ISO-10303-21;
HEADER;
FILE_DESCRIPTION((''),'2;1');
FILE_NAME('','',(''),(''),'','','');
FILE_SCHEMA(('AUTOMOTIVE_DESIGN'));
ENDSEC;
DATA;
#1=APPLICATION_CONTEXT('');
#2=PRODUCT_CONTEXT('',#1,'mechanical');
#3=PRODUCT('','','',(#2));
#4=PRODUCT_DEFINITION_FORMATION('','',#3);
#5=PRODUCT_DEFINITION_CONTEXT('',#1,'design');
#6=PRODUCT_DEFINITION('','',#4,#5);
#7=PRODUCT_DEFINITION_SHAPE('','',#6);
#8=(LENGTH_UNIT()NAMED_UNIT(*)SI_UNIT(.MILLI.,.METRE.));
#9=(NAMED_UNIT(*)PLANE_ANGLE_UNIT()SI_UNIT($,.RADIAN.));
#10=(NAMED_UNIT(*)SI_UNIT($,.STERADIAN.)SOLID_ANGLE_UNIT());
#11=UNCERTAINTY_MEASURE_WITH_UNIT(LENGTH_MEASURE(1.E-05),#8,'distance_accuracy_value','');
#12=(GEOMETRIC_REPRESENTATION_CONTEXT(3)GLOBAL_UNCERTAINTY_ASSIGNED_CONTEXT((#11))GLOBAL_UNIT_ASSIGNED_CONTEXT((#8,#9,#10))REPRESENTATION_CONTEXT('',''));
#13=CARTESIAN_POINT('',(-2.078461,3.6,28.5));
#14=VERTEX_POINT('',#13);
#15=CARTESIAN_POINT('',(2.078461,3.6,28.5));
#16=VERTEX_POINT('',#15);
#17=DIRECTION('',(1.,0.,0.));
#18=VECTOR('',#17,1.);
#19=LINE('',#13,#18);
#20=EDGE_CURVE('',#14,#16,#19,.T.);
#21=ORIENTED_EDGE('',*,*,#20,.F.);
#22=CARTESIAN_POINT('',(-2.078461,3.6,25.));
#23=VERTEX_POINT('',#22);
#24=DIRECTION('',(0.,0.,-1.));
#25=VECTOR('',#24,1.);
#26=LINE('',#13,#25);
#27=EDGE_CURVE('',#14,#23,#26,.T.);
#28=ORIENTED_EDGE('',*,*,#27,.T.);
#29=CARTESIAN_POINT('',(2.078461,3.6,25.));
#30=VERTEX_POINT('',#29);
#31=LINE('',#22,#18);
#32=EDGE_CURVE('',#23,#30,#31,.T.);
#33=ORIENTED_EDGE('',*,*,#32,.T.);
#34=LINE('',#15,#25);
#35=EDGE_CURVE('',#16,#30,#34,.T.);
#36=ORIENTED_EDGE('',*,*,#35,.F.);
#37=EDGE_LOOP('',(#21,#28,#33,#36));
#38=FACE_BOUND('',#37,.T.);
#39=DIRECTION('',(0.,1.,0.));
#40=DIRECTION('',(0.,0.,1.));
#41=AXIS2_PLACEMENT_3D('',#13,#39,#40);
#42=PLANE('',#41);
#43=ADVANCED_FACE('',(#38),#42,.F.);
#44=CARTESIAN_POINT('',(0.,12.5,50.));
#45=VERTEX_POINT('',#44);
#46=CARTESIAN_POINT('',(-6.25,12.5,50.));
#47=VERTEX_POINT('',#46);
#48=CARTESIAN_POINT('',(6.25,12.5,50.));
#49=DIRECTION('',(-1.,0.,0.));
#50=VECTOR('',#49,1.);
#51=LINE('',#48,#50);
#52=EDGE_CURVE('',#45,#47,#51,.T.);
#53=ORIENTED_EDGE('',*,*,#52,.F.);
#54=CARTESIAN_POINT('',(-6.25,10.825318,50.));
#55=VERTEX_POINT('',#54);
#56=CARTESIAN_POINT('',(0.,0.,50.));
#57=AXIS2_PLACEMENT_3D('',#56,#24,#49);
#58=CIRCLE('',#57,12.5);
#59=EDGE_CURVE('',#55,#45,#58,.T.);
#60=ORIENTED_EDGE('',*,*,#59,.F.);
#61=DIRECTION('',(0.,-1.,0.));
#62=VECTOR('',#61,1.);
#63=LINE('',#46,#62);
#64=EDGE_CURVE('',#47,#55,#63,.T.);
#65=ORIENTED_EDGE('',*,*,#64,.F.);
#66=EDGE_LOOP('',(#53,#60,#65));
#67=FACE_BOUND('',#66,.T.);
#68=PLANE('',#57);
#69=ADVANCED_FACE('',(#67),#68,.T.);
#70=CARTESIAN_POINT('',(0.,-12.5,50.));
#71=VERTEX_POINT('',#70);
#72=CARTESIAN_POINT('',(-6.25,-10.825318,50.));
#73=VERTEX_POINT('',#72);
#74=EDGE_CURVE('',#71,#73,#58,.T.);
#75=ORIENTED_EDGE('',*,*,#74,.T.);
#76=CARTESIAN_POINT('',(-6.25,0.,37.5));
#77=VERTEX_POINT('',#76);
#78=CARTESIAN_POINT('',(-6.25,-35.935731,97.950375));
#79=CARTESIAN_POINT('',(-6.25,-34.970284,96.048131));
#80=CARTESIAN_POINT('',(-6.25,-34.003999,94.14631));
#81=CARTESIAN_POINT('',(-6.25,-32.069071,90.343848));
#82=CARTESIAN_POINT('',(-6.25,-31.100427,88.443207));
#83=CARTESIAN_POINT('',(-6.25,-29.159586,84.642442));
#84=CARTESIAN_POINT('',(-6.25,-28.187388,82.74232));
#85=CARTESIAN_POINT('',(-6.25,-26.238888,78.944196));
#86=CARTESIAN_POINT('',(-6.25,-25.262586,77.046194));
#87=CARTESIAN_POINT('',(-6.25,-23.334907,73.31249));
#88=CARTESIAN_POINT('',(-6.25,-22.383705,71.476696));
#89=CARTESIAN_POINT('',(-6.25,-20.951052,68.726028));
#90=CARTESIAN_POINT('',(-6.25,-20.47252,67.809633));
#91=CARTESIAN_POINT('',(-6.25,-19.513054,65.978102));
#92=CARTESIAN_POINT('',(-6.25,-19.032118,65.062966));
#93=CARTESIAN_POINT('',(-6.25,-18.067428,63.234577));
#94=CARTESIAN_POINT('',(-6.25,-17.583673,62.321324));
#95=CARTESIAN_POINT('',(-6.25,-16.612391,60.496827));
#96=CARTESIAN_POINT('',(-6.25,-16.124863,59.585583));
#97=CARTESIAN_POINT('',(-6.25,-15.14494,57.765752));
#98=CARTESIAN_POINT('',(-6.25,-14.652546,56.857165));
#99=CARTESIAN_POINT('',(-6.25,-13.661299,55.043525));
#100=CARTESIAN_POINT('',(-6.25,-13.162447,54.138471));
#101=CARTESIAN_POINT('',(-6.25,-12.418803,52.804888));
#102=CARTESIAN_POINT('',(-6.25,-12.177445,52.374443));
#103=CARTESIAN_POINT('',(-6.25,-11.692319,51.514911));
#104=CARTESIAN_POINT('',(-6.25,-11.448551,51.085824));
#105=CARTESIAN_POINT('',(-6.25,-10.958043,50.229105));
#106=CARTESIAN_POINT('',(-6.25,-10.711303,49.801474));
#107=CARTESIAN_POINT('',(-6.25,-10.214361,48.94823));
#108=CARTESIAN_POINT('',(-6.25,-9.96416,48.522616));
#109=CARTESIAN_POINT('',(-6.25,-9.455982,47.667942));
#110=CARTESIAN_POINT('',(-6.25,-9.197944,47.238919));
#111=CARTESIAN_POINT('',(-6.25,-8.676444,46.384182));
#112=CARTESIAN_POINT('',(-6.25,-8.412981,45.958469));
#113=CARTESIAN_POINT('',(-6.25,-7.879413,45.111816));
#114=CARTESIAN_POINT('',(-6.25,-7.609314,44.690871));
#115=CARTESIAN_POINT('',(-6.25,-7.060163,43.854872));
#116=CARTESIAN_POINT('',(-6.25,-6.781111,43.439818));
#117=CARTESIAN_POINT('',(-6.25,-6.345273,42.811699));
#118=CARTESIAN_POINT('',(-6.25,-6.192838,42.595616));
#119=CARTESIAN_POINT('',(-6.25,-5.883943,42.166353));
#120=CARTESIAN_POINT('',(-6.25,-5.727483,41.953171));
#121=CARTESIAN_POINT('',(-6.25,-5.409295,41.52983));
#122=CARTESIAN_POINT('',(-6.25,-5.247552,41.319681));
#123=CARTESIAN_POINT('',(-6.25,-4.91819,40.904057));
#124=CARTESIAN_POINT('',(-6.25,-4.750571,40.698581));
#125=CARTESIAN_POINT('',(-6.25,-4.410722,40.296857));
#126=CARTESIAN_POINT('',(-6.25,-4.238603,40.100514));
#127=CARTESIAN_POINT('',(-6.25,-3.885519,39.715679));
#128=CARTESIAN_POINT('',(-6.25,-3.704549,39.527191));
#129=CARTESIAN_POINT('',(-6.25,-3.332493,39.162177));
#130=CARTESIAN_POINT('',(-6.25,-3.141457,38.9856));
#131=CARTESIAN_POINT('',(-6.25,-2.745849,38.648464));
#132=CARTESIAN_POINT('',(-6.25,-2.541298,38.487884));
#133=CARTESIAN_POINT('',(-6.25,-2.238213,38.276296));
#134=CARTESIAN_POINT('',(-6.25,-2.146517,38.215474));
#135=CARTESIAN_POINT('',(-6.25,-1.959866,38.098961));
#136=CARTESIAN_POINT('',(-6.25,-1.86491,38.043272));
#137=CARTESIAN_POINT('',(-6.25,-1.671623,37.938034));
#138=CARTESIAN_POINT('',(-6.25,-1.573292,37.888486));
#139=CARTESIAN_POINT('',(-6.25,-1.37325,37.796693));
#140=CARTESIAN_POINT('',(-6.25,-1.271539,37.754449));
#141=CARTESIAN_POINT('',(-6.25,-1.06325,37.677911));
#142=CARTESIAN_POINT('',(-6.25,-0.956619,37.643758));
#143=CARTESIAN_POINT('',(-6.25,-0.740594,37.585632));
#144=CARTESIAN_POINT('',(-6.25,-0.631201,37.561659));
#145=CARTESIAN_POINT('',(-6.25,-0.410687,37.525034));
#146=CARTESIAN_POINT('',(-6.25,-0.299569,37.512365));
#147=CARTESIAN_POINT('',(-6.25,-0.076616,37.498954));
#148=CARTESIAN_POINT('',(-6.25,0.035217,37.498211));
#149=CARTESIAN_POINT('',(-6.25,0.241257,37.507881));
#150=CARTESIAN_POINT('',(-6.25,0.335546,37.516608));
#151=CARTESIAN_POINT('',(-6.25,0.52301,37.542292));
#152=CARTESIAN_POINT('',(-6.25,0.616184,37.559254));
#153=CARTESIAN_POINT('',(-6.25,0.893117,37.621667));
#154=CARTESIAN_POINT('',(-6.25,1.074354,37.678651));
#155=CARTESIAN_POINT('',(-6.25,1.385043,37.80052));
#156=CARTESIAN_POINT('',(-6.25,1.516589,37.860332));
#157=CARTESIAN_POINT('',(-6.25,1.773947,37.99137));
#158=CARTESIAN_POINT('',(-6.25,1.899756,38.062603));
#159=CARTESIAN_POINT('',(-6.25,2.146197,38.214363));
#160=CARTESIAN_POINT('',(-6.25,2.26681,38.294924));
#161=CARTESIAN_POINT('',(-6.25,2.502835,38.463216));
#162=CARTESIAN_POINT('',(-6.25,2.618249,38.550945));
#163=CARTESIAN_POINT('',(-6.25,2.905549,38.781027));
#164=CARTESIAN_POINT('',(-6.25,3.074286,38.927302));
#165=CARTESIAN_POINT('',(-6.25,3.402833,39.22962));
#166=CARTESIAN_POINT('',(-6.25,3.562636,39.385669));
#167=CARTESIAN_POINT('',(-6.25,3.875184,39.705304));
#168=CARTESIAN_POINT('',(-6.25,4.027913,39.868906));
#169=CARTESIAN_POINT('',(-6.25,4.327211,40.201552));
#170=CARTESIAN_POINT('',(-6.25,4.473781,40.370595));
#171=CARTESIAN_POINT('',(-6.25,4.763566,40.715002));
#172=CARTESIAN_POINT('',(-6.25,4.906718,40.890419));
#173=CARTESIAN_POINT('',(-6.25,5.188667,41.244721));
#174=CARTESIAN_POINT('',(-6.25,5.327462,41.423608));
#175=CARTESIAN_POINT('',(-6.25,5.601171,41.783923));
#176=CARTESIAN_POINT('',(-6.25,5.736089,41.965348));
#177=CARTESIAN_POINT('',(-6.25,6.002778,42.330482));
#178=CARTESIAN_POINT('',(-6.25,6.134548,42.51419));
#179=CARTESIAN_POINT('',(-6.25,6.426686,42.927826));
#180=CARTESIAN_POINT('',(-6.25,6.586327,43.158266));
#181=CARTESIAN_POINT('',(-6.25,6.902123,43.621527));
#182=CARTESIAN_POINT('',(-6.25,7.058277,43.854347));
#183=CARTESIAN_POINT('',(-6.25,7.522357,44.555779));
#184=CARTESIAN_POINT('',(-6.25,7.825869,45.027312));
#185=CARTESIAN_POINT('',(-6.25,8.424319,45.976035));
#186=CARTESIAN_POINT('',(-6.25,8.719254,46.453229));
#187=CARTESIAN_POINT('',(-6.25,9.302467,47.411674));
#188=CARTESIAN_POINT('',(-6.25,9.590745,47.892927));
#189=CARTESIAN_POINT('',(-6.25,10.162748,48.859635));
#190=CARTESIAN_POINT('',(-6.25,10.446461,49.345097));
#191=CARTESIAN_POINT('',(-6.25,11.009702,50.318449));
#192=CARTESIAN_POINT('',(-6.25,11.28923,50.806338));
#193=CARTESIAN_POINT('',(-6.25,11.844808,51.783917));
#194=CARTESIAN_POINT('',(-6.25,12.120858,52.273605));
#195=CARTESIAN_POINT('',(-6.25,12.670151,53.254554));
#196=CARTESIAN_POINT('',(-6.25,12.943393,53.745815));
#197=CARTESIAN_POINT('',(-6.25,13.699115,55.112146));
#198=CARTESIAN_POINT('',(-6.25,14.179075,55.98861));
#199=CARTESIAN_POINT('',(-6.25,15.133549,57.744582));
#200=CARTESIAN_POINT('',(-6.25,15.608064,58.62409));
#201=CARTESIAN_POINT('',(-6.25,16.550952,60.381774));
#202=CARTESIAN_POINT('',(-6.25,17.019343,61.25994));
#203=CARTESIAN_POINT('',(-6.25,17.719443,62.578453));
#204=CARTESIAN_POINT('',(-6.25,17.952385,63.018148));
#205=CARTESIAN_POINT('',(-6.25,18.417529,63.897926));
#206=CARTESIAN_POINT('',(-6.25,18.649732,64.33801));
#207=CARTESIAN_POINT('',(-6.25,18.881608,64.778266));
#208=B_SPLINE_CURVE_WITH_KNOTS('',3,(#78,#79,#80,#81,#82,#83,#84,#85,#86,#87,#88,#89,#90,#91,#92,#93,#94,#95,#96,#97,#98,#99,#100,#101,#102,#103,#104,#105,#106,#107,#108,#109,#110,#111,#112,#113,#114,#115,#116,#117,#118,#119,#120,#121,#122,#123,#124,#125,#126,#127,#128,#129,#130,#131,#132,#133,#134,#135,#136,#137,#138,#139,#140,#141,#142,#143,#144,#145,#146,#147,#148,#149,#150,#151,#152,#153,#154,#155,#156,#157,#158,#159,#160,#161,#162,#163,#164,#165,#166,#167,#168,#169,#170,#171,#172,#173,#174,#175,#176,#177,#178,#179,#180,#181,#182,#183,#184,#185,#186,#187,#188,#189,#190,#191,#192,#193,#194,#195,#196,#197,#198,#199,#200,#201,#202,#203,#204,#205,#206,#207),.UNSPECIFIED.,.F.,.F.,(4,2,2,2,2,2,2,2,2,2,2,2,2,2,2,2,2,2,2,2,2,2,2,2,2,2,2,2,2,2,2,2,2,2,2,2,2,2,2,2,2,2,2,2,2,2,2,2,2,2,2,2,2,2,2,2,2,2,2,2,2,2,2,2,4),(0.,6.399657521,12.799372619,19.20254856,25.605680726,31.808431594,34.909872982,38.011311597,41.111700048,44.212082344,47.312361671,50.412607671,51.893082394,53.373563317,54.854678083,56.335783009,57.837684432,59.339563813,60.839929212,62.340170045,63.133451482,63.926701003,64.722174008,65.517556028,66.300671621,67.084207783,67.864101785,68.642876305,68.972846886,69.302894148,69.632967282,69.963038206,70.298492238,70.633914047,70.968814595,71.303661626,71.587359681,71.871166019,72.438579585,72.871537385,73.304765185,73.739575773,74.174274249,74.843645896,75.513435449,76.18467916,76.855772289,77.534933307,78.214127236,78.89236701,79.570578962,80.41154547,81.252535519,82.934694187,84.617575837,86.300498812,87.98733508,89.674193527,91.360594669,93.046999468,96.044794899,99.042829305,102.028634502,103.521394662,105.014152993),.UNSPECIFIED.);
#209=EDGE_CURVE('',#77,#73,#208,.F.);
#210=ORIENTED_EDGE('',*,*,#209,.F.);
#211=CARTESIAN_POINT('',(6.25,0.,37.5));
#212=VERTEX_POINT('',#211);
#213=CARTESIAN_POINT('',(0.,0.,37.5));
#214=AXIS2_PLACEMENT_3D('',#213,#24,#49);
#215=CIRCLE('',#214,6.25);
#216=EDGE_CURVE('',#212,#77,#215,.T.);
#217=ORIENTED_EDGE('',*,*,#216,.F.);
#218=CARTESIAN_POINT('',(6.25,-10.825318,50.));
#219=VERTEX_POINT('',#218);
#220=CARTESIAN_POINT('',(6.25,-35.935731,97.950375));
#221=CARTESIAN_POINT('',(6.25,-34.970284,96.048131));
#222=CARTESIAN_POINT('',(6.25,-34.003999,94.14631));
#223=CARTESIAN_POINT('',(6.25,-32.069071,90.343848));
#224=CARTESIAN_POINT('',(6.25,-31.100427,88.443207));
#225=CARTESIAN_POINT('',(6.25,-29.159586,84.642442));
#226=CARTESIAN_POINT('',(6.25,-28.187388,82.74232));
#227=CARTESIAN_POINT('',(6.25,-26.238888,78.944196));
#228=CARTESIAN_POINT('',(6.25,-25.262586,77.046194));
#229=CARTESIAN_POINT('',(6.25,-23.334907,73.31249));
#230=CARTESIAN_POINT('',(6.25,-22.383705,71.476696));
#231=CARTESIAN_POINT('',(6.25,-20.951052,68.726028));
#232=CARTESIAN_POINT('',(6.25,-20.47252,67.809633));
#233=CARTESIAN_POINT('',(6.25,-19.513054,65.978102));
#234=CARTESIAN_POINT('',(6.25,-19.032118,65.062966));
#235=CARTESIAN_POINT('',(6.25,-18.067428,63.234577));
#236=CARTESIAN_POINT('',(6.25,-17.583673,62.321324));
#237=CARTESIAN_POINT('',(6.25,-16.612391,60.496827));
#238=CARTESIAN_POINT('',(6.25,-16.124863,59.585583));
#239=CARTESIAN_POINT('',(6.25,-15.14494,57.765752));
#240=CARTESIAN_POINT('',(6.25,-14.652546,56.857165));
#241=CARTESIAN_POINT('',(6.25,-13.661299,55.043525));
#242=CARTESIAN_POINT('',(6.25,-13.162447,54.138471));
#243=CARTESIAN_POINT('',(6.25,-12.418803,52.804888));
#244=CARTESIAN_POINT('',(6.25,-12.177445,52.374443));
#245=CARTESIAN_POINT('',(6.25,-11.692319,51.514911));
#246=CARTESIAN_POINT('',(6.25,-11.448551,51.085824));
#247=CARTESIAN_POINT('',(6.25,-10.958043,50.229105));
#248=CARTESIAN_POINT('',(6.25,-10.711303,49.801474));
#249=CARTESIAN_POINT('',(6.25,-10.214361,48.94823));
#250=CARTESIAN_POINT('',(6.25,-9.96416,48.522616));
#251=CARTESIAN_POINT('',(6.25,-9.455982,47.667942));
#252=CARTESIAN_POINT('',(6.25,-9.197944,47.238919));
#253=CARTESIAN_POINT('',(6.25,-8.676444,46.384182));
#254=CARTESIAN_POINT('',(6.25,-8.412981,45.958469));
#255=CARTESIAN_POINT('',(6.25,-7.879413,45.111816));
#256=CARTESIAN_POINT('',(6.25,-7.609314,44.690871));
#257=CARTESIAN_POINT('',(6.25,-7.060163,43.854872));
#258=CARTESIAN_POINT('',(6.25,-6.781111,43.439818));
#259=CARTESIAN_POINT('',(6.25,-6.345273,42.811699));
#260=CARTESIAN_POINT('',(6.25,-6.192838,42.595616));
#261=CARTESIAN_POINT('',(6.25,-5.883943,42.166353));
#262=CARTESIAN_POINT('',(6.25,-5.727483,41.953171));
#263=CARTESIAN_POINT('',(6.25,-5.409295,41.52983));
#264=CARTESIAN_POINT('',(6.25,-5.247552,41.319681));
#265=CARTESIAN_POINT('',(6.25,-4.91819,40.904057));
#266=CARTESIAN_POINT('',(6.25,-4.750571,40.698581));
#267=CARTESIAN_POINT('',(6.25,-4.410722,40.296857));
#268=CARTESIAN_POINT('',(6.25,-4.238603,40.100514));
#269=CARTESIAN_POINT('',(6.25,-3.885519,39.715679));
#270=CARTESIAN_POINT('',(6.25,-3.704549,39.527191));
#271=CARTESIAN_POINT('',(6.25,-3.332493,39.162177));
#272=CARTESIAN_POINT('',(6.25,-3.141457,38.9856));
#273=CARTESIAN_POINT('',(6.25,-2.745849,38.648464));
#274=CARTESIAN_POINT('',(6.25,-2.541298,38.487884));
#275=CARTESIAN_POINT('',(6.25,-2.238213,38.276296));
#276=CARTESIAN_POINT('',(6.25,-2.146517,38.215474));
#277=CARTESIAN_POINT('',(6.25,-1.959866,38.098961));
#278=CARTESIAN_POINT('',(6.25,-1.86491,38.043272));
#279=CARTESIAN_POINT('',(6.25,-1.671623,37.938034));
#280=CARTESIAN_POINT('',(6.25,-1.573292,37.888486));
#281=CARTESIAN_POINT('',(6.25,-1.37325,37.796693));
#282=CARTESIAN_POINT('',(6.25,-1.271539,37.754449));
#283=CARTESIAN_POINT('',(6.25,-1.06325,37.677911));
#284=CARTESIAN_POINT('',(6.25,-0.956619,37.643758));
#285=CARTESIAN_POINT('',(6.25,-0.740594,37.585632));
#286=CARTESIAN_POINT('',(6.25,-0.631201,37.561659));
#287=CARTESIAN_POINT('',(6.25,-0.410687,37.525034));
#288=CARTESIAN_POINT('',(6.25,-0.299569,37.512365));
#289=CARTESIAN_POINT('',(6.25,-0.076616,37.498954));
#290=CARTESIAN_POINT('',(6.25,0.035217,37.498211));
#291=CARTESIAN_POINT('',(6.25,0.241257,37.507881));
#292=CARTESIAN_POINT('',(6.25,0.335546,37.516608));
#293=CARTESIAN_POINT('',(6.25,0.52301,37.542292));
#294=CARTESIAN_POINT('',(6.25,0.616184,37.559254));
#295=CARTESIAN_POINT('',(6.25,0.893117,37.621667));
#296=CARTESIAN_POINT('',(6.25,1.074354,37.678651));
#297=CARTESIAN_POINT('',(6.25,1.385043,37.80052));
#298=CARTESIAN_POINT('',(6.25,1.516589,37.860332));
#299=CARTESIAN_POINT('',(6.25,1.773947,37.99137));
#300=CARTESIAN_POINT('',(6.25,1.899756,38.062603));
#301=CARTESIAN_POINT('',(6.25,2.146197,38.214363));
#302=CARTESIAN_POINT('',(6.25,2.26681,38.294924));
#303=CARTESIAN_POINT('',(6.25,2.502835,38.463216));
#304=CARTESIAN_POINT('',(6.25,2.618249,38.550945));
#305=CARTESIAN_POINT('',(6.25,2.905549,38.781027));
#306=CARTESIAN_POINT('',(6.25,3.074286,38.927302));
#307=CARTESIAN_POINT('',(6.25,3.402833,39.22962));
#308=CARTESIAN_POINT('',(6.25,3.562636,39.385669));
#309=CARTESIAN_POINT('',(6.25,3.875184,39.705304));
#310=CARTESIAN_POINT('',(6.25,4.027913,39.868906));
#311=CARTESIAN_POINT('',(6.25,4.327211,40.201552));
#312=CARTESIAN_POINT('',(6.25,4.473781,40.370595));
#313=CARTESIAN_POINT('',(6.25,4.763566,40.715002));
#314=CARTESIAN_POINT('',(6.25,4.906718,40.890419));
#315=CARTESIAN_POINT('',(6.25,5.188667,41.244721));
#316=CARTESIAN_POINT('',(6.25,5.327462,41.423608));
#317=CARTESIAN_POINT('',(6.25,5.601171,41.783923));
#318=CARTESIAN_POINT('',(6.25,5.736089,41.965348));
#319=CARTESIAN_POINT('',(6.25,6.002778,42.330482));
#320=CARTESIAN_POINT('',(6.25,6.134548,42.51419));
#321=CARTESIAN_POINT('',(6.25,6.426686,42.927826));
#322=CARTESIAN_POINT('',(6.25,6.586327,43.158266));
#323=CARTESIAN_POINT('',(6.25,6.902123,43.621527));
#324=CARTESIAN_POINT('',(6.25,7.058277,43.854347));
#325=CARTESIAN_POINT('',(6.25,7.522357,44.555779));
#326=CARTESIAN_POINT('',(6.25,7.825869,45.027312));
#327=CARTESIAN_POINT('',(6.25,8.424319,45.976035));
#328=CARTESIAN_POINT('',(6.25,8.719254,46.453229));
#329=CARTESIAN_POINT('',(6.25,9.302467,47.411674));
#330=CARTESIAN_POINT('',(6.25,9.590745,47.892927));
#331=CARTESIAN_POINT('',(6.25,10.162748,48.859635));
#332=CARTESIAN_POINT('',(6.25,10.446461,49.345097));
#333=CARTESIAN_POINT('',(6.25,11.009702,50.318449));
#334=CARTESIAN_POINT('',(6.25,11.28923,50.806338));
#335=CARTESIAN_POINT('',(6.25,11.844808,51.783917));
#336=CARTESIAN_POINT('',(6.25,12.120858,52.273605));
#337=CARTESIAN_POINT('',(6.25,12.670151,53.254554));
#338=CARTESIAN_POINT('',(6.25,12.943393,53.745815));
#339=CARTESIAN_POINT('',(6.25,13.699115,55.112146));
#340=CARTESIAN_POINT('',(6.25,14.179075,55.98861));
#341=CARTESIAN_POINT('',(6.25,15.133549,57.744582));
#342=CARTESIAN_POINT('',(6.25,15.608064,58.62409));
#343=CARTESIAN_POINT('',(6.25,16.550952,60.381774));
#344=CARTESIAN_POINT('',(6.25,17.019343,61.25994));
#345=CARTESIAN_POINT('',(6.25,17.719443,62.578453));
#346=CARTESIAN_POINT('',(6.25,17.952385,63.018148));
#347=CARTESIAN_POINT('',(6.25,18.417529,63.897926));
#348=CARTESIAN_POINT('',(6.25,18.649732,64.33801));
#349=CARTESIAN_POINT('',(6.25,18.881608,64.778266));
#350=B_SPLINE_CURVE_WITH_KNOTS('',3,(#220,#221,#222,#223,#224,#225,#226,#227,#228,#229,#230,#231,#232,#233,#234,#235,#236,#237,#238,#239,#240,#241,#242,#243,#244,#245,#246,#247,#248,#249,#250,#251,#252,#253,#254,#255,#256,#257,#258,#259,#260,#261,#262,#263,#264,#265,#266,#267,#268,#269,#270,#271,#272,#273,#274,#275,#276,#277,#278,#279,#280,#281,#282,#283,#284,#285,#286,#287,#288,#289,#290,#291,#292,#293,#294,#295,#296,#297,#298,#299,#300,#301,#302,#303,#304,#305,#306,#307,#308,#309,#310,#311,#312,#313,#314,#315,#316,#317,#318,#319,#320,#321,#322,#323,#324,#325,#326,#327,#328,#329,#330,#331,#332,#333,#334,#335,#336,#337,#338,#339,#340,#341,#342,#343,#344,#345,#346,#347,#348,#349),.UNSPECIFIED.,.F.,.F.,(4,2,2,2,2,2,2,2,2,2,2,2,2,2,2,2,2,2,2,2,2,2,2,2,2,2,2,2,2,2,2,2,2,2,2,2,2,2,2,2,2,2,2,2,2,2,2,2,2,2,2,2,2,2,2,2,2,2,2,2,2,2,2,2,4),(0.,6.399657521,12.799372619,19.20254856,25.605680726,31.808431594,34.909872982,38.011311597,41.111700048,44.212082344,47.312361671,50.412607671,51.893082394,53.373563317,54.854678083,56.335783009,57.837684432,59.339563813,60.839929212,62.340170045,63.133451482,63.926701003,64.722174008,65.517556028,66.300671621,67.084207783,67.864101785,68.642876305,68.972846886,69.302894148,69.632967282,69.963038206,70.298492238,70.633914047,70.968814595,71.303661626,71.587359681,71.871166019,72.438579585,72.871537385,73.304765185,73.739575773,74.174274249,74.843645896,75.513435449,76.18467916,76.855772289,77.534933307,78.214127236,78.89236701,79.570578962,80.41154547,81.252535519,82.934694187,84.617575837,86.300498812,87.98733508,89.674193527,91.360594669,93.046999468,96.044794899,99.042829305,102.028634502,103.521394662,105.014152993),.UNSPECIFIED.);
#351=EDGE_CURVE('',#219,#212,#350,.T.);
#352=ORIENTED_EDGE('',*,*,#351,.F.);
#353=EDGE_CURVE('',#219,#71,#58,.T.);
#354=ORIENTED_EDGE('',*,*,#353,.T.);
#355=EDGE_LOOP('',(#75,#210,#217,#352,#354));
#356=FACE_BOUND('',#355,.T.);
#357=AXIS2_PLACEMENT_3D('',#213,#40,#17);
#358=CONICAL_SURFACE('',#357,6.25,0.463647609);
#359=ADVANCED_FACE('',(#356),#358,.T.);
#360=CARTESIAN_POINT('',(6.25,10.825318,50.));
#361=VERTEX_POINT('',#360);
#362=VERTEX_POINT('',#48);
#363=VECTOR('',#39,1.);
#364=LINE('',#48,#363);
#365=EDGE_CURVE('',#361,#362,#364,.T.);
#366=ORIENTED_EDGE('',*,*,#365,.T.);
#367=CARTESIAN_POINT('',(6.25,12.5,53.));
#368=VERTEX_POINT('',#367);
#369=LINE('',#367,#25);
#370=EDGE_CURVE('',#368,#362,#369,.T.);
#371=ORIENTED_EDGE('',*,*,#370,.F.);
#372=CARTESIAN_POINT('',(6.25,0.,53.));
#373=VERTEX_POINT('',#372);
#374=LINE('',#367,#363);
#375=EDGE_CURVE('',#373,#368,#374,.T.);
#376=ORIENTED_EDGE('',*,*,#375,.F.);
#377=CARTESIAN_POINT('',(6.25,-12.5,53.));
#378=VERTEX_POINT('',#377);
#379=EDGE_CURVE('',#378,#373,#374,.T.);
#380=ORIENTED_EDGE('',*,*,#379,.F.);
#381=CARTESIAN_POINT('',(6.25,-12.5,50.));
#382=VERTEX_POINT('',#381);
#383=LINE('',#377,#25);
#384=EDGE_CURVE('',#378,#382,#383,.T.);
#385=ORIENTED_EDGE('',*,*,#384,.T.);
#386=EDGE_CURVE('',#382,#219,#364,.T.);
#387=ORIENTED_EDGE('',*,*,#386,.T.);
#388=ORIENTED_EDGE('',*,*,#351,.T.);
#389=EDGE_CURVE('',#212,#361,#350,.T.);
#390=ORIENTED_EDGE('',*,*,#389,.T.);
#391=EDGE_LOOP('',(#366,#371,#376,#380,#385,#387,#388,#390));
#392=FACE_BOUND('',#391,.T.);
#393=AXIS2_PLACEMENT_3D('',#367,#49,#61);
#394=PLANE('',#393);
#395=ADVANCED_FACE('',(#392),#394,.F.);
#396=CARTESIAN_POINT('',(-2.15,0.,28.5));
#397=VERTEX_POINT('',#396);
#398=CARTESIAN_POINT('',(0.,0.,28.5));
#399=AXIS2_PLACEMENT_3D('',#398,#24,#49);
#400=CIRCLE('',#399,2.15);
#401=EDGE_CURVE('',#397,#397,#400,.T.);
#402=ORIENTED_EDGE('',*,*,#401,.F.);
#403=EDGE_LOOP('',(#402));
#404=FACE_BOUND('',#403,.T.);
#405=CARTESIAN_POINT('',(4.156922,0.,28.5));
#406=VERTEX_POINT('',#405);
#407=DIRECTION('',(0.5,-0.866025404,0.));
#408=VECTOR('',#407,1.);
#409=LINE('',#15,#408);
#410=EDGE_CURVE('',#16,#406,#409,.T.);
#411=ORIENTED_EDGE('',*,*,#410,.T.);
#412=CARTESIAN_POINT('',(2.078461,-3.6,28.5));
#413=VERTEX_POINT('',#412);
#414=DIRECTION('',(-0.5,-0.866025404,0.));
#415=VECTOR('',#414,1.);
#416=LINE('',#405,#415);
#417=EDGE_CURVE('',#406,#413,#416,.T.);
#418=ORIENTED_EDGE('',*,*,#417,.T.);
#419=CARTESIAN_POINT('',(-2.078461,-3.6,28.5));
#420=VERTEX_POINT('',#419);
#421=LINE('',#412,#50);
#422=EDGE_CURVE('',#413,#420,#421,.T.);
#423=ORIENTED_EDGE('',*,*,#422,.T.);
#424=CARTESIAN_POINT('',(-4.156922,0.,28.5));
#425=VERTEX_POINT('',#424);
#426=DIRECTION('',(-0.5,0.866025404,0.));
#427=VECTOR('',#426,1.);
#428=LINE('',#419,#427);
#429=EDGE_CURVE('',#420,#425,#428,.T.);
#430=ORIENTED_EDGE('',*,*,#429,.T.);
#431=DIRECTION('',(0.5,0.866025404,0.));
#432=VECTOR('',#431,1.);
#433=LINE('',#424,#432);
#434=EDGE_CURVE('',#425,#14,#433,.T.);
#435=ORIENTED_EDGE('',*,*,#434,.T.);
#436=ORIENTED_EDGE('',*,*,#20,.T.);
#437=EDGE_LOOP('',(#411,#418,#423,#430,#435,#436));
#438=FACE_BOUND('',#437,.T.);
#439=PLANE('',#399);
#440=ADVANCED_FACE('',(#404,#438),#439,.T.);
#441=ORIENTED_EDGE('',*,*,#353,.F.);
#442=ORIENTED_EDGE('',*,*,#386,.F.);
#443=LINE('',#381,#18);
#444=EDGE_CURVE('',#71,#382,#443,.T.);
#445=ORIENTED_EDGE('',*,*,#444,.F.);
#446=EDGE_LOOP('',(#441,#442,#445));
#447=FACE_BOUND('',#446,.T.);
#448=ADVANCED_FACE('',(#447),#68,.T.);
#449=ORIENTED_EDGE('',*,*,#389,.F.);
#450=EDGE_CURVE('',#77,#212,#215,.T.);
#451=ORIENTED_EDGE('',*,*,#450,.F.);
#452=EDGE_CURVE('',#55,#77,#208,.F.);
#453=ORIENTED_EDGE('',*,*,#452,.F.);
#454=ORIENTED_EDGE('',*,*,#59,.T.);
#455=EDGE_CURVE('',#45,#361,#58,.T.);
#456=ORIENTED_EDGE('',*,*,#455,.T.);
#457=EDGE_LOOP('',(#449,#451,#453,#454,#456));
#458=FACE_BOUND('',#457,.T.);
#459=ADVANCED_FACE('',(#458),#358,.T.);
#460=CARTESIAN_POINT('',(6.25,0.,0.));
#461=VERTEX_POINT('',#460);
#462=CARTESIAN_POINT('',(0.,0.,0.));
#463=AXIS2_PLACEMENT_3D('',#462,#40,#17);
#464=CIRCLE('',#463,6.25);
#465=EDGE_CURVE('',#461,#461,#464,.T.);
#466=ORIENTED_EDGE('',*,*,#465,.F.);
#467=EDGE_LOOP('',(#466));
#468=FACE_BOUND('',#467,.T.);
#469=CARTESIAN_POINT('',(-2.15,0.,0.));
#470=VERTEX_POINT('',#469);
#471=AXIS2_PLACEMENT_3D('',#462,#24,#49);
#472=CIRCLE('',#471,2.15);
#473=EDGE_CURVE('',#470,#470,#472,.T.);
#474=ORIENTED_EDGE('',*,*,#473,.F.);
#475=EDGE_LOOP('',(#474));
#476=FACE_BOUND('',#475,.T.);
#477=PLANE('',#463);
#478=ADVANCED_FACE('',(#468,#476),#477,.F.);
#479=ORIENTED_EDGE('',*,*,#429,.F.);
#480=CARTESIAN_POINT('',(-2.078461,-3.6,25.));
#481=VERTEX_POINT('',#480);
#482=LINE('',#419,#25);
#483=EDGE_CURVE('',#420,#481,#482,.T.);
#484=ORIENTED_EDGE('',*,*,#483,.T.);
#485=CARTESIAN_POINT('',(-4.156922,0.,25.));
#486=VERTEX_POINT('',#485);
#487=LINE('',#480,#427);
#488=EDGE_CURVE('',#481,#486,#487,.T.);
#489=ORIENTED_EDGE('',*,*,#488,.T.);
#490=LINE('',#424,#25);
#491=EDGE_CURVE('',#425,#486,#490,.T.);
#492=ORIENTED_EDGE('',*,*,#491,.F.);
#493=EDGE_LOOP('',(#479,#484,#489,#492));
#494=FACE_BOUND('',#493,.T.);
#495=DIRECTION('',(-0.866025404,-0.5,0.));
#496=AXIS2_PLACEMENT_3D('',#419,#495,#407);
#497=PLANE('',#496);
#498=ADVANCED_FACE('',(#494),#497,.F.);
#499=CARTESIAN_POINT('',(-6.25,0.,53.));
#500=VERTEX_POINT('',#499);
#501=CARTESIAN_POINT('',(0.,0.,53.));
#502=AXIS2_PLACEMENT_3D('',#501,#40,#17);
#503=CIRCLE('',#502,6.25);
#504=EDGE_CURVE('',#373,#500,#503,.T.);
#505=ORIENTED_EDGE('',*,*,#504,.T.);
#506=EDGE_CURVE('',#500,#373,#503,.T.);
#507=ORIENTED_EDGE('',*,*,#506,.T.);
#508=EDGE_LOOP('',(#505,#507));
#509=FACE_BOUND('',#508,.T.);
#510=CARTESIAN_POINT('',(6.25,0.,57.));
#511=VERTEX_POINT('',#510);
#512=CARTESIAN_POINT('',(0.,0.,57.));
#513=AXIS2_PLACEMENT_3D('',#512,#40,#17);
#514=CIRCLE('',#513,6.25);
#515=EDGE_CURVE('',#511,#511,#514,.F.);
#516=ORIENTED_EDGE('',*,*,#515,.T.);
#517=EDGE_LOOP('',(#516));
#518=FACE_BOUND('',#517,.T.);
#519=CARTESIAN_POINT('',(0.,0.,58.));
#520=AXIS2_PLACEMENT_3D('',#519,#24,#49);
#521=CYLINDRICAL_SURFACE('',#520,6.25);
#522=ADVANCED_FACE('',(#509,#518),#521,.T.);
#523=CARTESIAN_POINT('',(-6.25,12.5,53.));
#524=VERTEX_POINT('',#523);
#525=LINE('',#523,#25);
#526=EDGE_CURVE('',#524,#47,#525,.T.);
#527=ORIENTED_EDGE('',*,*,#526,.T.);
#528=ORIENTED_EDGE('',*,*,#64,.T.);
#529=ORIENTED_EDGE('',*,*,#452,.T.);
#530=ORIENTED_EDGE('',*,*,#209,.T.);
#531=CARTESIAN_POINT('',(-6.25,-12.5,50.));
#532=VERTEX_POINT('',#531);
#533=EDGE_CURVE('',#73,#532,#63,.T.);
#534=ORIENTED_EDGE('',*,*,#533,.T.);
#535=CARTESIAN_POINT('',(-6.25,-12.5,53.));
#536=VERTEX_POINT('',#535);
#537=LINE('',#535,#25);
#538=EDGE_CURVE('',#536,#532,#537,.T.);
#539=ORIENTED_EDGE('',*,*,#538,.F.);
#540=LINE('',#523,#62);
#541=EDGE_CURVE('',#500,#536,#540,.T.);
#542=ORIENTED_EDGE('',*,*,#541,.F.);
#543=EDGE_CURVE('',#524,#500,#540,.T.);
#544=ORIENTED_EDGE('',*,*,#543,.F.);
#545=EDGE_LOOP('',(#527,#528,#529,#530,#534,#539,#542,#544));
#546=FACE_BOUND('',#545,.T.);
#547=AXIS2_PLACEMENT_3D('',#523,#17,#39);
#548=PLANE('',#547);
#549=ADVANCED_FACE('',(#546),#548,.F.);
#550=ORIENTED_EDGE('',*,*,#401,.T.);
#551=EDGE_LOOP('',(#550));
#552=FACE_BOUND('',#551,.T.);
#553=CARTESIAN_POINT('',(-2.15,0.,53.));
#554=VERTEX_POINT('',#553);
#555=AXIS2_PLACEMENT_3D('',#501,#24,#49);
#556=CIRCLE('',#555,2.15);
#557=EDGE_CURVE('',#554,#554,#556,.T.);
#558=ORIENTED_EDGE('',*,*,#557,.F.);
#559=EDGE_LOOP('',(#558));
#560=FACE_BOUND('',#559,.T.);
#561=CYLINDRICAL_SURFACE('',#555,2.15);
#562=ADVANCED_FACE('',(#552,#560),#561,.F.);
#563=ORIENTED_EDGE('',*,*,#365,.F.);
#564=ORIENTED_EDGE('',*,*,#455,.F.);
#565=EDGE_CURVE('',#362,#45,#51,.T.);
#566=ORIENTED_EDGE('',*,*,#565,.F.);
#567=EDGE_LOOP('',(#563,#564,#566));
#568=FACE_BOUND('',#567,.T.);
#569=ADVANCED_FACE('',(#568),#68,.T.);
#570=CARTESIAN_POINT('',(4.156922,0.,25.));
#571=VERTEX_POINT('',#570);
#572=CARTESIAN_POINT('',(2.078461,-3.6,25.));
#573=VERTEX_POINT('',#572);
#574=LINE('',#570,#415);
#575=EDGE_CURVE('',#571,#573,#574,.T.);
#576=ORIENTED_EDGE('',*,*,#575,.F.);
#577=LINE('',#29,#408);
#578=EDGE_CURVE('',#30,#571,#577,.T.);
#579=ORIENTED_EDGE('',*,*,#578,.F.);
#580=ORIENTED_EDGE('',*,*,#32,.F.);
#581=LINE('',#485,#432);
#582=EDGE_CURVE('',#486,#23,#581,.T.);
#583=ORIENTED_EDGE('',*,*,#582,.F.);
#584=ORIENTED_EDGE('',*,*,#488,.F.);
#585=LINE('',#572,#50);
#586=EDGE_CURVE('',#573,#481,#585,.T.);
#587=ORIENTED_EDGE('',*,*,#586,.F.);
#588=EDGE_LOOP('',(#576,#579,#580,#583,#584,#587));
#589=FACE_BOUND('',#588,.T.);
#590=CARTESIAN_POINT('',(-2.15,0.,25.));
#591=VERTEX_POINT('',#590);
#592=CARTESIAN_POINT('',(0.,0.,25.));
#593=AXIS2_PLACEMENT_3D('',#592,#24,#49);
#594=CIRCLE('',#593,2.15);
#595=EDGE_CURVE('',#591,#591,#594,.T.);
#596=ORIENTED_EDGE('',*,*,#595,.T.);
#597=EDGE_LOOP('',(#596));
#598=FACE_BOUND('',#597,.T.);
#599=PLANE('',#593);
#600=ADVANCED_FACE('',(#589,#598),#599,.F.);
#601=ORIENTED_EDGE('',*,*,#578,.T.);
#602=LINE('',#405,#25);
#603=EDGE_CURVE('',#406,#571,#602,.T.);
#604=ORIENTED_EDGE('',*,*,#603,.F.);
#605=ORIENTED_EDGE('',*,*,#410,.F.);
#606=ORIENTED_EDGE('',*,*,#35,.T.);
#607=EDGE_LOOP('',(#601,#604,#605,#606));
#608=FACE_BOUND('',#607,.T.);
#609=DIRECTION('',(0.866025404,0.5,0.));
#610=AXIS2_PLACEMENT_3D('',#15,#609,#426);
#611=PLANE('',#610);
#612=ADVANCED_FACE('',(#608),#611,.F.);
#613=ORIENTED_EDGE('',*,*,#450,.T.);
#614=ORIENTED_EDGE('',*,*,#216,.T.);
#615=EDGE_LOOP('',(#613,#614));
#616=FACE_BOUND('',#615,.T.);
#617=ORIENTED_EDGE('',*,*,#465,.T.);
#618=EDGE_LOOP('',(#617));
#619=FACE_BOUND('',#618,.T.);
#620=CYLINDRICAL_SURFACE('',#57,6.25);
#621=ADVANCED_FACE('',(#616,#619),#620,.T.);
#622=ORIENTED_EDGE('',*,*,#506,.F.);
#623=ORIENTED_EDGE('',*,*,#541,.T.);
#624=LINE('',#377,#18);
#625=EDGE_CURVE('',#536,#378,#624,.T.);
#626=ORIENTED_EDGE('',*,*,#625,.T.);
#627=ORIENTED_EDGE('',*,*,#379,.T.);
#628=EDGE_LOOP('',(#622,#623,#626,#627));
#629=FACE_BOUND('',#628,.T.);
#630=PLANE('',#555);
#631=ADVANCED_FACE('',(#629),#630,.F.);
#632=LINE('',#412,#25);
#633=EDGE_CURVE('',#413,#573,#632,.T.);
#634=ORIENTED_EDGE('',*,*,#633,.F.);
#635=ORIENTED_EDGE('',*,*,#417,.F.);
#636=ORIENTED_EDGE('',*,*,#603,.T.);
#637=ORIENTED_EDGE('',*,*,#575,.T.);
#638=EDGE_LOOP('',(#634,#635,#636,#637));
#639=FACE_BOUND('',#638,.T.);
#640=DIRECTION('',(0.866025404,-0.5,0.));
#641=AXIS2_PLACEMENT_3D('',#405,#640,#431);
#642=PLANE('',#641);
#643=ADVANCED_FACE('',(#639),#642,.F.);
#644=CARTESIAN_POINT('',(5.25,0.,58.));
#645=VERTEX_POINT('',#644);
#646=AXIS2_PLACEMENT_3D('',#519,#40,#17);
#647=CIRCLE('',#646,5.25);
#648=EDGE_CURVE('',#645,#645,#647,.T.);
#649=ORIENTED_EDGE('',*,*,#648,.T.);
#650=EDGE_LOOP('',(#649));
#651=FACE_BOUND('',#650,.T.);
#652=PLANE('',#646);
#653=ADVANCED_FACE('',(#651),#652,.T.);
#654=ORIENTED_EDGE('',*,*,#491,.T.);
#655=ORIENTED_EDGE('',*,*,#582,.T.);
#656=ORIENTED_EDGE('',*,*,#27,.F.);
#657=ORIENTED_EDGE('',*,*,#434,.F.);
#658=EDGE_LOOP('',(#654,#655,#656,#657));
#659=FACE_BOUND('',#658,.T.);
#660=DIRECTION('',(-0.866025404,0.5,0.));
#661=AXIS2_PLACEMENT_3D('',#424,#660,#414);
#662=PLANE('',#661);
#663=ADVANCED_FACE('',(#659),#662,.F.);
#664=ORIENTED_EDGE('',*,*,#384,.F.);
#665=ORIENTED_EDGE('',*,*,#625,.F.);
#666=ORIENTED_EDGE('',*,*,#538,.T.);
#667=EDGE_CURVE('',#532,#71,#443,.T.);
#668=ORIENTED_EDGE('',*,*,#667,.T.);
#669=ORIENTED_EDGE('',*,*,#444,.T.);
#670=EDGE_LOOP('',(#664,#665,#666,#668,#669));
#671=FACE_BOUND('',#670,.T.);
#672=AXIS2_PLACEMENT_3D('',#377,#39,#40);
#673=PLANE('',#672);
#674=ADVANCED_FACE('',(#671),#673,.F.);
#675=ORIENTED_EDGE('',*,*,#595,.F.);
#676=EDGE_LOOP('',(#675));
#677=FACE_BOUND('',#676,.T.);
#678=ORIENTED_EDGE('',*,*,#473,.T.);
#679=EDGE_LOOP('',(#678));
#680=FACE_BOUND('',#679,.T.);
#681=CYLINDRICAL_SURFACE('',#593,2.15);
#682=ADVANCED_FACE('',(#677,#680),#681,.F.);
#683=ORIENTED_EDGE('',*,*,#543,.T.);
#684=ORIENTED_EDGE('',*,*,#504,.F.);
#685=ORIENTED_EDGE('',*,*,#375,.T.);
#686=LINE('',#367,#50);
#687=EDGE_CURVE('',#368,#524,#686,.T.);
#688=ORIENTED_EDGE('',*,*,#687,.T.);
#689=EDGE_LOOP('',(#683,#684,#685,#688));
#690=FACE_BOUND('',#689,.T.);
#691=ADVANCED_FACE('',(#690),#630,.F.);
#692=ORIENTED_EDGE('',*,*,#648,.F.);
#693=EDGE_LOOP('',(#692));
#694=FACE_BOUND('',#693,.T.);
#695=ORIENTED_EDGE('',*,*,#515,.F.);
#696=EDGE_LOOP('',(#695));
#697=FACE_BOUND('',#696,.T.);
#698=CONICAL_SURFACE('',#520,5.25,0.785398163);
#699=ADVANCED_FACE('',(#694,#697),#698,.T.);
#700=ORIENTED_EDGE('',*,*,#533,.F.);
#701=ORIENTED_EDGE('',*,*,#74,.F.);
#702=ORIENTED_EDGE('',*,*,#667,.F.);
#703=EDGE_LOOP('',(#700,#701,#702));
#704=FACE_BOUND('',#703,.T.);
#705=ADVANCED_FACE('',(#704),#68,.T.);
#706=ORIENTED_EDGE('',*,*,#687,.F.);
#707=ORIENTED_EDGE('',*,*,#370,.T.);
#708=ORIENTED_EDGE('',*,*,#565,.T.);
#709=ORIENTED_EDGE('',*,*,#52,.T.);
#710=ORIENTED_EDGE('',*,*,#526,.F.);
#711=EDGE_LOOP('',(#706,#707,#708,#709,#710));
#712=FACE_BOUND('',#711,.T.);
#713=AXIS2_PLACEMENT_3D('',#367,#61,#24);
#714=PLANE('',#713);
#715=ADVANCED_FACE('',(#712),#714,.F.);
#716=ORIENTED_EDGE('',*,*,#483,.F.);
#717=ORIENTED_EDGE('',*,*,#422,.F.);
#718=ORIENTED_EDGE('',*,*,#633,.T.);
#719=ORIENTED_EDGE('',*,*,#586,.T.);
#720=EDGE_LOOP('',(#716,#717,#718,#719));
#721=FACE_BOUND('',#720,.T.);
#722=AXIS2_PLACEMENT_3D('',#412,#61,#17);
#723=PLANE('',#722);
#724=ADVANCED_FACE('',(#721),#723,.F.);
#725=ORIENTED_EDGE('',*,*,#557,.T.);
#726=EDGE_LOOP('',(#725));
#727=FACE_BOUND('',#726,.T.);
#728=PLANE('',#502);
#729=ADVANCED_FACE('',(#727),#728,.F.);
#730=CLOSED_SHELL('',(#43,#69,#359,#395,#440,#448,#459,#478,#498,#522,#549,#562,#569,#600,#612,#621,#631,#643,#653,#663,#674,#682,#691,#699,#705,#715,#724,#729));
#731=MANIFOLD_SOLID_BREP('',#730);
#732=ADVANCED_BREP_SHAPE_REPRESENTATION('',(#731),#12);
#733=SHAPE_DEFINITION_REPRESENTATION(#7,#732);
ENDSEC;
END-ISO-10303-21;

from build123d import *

# Parameters (mm, degrees)
SKETCH1_R           = 6.25
BOSS_EXTRUDE1_DEPTH = 50
SKETCH8_R           = 2.15
CUT_EXTRUDE3_DEPTH  = 25
CUT_EXTRUDE4_DEPTH  = 3.5
SKETCH10_W          = 12.5
SKETCH10_H          = 25
BOSS_EXTRUDE2_DEPTH = 3
SKETCH12_W          = 7.267551801
SKETCH12_H          = 25
SKETCH12_W_2        = 9.375486859
CUT_EXTRUDE5_DEPTH  = 54
SKETCH13_R          = 2.15
CUT_EXTRUDE6_DEPTH  = 25.5
SKETCH14_R          = 6.25
BOSS_EXTRUDE3_DEPTH = 5
CHAMFER1_SIZE       = 1


with BuildPart() as part:
    # Sketch1 → Boss-Extrude1 (new body)
    with BuildSketch(Plane.XY):
        Circle(SKETCH1_R)
    extrude(amount=BOSS_EXTRUDE1_DEPTH)

    # Sketch8 → Cut-Extrude3 (cut)
    with BuildSketch(Plane(origin=(0, 0, 0), x_dir=(-1, 0, 0), z_dir=(0, 0, -1))):
        Circle(SKETCH8_R)
    extrude(amount=-CUT_EXTRUDE3_DEPTH, mode=Mode.SUBTRACT)

    # Sketch9 → Cut-Extrude4 (cut)
    with BuildSketch(Plane(origin=(0, 0, 25), x_dir=(-1, 0, 0), z_dir=(0, 0, -1))):
        Polygon((4.156921938, 0), (2.078460969, 3.6), (-2.078460969, 3.6), (-4.156921938, 0), (-2.078460969, -3.6), (2.078460969, -3.6), align=None)
    extrude(amount=-CUT_EXTRUDE4_DEPTH, mode=Mode.SUBTRACT)

    # Sketch10 → Boss-Extrude2 (add)
    with BuildSketch(Plane.XY.offset(50)):
        Rectangle(SKETCH10_W, SKETCH10_H)
    extrude(amount=BOSS_EXTRUDE2_DEPTH)

    # Sketch11 → Revolve1 (revolve)
    with BuildSketch(Plane(origin=(0, 0, 0), x_dir=(0, 0, -1), z_dir=(1, 0, 0))):
        Polygon((-50, 12.5), (-37.5, 6.25), (-37.5, 0), (-50, 0), align=None)
    revolve(axis=Axis((0, 0, 63.541170981), (0, 0, 1)))

    # Sketch12 → Cut-Extrude5 (cut, through all)
    with BuildSketch(Plane.XY.offset(53)):
        with Locations((-9.883775901, 0)):
            Rectangle(SKETCH12_W, SKETCH12_H)
        with Locations((10.937743429, 0)):
            Rectangle(SKETCH12_W_2, SKETCH12_H)
    extrude(amount=-CUT_EXTRUDE5_DEPTH, mode=Mode.SUBTRACT)

    # Sketch13 → Cut-Extrude6 (cut, through all)
    with BuildSketch(Plane(origin=(0, 0, 28.5), x_dir=(-1, 0, 0), z_dir=(0, 0, -1))):
        Circle(SKETCH13_R)
    extrude(amount=-CUT_EXTRUDE6_DEPTH, mode=Mode.SUBTRACT)

    # Sketch14 → Boss-Extrude3 (add)
    with BuildSketch(Plane.XY.offset(53)):
        Circle(SKETCH14_R)
    extrude(amount=BOSS_EXTRUDE3_DEPTH)

    # Chamfer1
    chamfer1_edges = [part.edges().sort_by_distance(p)[0] for p in [
        (-6.25, 0, 58),
    ]]
    chamfer(chamfer1_edges, length=CHAMFER1_SIZE)


solid = part.part
